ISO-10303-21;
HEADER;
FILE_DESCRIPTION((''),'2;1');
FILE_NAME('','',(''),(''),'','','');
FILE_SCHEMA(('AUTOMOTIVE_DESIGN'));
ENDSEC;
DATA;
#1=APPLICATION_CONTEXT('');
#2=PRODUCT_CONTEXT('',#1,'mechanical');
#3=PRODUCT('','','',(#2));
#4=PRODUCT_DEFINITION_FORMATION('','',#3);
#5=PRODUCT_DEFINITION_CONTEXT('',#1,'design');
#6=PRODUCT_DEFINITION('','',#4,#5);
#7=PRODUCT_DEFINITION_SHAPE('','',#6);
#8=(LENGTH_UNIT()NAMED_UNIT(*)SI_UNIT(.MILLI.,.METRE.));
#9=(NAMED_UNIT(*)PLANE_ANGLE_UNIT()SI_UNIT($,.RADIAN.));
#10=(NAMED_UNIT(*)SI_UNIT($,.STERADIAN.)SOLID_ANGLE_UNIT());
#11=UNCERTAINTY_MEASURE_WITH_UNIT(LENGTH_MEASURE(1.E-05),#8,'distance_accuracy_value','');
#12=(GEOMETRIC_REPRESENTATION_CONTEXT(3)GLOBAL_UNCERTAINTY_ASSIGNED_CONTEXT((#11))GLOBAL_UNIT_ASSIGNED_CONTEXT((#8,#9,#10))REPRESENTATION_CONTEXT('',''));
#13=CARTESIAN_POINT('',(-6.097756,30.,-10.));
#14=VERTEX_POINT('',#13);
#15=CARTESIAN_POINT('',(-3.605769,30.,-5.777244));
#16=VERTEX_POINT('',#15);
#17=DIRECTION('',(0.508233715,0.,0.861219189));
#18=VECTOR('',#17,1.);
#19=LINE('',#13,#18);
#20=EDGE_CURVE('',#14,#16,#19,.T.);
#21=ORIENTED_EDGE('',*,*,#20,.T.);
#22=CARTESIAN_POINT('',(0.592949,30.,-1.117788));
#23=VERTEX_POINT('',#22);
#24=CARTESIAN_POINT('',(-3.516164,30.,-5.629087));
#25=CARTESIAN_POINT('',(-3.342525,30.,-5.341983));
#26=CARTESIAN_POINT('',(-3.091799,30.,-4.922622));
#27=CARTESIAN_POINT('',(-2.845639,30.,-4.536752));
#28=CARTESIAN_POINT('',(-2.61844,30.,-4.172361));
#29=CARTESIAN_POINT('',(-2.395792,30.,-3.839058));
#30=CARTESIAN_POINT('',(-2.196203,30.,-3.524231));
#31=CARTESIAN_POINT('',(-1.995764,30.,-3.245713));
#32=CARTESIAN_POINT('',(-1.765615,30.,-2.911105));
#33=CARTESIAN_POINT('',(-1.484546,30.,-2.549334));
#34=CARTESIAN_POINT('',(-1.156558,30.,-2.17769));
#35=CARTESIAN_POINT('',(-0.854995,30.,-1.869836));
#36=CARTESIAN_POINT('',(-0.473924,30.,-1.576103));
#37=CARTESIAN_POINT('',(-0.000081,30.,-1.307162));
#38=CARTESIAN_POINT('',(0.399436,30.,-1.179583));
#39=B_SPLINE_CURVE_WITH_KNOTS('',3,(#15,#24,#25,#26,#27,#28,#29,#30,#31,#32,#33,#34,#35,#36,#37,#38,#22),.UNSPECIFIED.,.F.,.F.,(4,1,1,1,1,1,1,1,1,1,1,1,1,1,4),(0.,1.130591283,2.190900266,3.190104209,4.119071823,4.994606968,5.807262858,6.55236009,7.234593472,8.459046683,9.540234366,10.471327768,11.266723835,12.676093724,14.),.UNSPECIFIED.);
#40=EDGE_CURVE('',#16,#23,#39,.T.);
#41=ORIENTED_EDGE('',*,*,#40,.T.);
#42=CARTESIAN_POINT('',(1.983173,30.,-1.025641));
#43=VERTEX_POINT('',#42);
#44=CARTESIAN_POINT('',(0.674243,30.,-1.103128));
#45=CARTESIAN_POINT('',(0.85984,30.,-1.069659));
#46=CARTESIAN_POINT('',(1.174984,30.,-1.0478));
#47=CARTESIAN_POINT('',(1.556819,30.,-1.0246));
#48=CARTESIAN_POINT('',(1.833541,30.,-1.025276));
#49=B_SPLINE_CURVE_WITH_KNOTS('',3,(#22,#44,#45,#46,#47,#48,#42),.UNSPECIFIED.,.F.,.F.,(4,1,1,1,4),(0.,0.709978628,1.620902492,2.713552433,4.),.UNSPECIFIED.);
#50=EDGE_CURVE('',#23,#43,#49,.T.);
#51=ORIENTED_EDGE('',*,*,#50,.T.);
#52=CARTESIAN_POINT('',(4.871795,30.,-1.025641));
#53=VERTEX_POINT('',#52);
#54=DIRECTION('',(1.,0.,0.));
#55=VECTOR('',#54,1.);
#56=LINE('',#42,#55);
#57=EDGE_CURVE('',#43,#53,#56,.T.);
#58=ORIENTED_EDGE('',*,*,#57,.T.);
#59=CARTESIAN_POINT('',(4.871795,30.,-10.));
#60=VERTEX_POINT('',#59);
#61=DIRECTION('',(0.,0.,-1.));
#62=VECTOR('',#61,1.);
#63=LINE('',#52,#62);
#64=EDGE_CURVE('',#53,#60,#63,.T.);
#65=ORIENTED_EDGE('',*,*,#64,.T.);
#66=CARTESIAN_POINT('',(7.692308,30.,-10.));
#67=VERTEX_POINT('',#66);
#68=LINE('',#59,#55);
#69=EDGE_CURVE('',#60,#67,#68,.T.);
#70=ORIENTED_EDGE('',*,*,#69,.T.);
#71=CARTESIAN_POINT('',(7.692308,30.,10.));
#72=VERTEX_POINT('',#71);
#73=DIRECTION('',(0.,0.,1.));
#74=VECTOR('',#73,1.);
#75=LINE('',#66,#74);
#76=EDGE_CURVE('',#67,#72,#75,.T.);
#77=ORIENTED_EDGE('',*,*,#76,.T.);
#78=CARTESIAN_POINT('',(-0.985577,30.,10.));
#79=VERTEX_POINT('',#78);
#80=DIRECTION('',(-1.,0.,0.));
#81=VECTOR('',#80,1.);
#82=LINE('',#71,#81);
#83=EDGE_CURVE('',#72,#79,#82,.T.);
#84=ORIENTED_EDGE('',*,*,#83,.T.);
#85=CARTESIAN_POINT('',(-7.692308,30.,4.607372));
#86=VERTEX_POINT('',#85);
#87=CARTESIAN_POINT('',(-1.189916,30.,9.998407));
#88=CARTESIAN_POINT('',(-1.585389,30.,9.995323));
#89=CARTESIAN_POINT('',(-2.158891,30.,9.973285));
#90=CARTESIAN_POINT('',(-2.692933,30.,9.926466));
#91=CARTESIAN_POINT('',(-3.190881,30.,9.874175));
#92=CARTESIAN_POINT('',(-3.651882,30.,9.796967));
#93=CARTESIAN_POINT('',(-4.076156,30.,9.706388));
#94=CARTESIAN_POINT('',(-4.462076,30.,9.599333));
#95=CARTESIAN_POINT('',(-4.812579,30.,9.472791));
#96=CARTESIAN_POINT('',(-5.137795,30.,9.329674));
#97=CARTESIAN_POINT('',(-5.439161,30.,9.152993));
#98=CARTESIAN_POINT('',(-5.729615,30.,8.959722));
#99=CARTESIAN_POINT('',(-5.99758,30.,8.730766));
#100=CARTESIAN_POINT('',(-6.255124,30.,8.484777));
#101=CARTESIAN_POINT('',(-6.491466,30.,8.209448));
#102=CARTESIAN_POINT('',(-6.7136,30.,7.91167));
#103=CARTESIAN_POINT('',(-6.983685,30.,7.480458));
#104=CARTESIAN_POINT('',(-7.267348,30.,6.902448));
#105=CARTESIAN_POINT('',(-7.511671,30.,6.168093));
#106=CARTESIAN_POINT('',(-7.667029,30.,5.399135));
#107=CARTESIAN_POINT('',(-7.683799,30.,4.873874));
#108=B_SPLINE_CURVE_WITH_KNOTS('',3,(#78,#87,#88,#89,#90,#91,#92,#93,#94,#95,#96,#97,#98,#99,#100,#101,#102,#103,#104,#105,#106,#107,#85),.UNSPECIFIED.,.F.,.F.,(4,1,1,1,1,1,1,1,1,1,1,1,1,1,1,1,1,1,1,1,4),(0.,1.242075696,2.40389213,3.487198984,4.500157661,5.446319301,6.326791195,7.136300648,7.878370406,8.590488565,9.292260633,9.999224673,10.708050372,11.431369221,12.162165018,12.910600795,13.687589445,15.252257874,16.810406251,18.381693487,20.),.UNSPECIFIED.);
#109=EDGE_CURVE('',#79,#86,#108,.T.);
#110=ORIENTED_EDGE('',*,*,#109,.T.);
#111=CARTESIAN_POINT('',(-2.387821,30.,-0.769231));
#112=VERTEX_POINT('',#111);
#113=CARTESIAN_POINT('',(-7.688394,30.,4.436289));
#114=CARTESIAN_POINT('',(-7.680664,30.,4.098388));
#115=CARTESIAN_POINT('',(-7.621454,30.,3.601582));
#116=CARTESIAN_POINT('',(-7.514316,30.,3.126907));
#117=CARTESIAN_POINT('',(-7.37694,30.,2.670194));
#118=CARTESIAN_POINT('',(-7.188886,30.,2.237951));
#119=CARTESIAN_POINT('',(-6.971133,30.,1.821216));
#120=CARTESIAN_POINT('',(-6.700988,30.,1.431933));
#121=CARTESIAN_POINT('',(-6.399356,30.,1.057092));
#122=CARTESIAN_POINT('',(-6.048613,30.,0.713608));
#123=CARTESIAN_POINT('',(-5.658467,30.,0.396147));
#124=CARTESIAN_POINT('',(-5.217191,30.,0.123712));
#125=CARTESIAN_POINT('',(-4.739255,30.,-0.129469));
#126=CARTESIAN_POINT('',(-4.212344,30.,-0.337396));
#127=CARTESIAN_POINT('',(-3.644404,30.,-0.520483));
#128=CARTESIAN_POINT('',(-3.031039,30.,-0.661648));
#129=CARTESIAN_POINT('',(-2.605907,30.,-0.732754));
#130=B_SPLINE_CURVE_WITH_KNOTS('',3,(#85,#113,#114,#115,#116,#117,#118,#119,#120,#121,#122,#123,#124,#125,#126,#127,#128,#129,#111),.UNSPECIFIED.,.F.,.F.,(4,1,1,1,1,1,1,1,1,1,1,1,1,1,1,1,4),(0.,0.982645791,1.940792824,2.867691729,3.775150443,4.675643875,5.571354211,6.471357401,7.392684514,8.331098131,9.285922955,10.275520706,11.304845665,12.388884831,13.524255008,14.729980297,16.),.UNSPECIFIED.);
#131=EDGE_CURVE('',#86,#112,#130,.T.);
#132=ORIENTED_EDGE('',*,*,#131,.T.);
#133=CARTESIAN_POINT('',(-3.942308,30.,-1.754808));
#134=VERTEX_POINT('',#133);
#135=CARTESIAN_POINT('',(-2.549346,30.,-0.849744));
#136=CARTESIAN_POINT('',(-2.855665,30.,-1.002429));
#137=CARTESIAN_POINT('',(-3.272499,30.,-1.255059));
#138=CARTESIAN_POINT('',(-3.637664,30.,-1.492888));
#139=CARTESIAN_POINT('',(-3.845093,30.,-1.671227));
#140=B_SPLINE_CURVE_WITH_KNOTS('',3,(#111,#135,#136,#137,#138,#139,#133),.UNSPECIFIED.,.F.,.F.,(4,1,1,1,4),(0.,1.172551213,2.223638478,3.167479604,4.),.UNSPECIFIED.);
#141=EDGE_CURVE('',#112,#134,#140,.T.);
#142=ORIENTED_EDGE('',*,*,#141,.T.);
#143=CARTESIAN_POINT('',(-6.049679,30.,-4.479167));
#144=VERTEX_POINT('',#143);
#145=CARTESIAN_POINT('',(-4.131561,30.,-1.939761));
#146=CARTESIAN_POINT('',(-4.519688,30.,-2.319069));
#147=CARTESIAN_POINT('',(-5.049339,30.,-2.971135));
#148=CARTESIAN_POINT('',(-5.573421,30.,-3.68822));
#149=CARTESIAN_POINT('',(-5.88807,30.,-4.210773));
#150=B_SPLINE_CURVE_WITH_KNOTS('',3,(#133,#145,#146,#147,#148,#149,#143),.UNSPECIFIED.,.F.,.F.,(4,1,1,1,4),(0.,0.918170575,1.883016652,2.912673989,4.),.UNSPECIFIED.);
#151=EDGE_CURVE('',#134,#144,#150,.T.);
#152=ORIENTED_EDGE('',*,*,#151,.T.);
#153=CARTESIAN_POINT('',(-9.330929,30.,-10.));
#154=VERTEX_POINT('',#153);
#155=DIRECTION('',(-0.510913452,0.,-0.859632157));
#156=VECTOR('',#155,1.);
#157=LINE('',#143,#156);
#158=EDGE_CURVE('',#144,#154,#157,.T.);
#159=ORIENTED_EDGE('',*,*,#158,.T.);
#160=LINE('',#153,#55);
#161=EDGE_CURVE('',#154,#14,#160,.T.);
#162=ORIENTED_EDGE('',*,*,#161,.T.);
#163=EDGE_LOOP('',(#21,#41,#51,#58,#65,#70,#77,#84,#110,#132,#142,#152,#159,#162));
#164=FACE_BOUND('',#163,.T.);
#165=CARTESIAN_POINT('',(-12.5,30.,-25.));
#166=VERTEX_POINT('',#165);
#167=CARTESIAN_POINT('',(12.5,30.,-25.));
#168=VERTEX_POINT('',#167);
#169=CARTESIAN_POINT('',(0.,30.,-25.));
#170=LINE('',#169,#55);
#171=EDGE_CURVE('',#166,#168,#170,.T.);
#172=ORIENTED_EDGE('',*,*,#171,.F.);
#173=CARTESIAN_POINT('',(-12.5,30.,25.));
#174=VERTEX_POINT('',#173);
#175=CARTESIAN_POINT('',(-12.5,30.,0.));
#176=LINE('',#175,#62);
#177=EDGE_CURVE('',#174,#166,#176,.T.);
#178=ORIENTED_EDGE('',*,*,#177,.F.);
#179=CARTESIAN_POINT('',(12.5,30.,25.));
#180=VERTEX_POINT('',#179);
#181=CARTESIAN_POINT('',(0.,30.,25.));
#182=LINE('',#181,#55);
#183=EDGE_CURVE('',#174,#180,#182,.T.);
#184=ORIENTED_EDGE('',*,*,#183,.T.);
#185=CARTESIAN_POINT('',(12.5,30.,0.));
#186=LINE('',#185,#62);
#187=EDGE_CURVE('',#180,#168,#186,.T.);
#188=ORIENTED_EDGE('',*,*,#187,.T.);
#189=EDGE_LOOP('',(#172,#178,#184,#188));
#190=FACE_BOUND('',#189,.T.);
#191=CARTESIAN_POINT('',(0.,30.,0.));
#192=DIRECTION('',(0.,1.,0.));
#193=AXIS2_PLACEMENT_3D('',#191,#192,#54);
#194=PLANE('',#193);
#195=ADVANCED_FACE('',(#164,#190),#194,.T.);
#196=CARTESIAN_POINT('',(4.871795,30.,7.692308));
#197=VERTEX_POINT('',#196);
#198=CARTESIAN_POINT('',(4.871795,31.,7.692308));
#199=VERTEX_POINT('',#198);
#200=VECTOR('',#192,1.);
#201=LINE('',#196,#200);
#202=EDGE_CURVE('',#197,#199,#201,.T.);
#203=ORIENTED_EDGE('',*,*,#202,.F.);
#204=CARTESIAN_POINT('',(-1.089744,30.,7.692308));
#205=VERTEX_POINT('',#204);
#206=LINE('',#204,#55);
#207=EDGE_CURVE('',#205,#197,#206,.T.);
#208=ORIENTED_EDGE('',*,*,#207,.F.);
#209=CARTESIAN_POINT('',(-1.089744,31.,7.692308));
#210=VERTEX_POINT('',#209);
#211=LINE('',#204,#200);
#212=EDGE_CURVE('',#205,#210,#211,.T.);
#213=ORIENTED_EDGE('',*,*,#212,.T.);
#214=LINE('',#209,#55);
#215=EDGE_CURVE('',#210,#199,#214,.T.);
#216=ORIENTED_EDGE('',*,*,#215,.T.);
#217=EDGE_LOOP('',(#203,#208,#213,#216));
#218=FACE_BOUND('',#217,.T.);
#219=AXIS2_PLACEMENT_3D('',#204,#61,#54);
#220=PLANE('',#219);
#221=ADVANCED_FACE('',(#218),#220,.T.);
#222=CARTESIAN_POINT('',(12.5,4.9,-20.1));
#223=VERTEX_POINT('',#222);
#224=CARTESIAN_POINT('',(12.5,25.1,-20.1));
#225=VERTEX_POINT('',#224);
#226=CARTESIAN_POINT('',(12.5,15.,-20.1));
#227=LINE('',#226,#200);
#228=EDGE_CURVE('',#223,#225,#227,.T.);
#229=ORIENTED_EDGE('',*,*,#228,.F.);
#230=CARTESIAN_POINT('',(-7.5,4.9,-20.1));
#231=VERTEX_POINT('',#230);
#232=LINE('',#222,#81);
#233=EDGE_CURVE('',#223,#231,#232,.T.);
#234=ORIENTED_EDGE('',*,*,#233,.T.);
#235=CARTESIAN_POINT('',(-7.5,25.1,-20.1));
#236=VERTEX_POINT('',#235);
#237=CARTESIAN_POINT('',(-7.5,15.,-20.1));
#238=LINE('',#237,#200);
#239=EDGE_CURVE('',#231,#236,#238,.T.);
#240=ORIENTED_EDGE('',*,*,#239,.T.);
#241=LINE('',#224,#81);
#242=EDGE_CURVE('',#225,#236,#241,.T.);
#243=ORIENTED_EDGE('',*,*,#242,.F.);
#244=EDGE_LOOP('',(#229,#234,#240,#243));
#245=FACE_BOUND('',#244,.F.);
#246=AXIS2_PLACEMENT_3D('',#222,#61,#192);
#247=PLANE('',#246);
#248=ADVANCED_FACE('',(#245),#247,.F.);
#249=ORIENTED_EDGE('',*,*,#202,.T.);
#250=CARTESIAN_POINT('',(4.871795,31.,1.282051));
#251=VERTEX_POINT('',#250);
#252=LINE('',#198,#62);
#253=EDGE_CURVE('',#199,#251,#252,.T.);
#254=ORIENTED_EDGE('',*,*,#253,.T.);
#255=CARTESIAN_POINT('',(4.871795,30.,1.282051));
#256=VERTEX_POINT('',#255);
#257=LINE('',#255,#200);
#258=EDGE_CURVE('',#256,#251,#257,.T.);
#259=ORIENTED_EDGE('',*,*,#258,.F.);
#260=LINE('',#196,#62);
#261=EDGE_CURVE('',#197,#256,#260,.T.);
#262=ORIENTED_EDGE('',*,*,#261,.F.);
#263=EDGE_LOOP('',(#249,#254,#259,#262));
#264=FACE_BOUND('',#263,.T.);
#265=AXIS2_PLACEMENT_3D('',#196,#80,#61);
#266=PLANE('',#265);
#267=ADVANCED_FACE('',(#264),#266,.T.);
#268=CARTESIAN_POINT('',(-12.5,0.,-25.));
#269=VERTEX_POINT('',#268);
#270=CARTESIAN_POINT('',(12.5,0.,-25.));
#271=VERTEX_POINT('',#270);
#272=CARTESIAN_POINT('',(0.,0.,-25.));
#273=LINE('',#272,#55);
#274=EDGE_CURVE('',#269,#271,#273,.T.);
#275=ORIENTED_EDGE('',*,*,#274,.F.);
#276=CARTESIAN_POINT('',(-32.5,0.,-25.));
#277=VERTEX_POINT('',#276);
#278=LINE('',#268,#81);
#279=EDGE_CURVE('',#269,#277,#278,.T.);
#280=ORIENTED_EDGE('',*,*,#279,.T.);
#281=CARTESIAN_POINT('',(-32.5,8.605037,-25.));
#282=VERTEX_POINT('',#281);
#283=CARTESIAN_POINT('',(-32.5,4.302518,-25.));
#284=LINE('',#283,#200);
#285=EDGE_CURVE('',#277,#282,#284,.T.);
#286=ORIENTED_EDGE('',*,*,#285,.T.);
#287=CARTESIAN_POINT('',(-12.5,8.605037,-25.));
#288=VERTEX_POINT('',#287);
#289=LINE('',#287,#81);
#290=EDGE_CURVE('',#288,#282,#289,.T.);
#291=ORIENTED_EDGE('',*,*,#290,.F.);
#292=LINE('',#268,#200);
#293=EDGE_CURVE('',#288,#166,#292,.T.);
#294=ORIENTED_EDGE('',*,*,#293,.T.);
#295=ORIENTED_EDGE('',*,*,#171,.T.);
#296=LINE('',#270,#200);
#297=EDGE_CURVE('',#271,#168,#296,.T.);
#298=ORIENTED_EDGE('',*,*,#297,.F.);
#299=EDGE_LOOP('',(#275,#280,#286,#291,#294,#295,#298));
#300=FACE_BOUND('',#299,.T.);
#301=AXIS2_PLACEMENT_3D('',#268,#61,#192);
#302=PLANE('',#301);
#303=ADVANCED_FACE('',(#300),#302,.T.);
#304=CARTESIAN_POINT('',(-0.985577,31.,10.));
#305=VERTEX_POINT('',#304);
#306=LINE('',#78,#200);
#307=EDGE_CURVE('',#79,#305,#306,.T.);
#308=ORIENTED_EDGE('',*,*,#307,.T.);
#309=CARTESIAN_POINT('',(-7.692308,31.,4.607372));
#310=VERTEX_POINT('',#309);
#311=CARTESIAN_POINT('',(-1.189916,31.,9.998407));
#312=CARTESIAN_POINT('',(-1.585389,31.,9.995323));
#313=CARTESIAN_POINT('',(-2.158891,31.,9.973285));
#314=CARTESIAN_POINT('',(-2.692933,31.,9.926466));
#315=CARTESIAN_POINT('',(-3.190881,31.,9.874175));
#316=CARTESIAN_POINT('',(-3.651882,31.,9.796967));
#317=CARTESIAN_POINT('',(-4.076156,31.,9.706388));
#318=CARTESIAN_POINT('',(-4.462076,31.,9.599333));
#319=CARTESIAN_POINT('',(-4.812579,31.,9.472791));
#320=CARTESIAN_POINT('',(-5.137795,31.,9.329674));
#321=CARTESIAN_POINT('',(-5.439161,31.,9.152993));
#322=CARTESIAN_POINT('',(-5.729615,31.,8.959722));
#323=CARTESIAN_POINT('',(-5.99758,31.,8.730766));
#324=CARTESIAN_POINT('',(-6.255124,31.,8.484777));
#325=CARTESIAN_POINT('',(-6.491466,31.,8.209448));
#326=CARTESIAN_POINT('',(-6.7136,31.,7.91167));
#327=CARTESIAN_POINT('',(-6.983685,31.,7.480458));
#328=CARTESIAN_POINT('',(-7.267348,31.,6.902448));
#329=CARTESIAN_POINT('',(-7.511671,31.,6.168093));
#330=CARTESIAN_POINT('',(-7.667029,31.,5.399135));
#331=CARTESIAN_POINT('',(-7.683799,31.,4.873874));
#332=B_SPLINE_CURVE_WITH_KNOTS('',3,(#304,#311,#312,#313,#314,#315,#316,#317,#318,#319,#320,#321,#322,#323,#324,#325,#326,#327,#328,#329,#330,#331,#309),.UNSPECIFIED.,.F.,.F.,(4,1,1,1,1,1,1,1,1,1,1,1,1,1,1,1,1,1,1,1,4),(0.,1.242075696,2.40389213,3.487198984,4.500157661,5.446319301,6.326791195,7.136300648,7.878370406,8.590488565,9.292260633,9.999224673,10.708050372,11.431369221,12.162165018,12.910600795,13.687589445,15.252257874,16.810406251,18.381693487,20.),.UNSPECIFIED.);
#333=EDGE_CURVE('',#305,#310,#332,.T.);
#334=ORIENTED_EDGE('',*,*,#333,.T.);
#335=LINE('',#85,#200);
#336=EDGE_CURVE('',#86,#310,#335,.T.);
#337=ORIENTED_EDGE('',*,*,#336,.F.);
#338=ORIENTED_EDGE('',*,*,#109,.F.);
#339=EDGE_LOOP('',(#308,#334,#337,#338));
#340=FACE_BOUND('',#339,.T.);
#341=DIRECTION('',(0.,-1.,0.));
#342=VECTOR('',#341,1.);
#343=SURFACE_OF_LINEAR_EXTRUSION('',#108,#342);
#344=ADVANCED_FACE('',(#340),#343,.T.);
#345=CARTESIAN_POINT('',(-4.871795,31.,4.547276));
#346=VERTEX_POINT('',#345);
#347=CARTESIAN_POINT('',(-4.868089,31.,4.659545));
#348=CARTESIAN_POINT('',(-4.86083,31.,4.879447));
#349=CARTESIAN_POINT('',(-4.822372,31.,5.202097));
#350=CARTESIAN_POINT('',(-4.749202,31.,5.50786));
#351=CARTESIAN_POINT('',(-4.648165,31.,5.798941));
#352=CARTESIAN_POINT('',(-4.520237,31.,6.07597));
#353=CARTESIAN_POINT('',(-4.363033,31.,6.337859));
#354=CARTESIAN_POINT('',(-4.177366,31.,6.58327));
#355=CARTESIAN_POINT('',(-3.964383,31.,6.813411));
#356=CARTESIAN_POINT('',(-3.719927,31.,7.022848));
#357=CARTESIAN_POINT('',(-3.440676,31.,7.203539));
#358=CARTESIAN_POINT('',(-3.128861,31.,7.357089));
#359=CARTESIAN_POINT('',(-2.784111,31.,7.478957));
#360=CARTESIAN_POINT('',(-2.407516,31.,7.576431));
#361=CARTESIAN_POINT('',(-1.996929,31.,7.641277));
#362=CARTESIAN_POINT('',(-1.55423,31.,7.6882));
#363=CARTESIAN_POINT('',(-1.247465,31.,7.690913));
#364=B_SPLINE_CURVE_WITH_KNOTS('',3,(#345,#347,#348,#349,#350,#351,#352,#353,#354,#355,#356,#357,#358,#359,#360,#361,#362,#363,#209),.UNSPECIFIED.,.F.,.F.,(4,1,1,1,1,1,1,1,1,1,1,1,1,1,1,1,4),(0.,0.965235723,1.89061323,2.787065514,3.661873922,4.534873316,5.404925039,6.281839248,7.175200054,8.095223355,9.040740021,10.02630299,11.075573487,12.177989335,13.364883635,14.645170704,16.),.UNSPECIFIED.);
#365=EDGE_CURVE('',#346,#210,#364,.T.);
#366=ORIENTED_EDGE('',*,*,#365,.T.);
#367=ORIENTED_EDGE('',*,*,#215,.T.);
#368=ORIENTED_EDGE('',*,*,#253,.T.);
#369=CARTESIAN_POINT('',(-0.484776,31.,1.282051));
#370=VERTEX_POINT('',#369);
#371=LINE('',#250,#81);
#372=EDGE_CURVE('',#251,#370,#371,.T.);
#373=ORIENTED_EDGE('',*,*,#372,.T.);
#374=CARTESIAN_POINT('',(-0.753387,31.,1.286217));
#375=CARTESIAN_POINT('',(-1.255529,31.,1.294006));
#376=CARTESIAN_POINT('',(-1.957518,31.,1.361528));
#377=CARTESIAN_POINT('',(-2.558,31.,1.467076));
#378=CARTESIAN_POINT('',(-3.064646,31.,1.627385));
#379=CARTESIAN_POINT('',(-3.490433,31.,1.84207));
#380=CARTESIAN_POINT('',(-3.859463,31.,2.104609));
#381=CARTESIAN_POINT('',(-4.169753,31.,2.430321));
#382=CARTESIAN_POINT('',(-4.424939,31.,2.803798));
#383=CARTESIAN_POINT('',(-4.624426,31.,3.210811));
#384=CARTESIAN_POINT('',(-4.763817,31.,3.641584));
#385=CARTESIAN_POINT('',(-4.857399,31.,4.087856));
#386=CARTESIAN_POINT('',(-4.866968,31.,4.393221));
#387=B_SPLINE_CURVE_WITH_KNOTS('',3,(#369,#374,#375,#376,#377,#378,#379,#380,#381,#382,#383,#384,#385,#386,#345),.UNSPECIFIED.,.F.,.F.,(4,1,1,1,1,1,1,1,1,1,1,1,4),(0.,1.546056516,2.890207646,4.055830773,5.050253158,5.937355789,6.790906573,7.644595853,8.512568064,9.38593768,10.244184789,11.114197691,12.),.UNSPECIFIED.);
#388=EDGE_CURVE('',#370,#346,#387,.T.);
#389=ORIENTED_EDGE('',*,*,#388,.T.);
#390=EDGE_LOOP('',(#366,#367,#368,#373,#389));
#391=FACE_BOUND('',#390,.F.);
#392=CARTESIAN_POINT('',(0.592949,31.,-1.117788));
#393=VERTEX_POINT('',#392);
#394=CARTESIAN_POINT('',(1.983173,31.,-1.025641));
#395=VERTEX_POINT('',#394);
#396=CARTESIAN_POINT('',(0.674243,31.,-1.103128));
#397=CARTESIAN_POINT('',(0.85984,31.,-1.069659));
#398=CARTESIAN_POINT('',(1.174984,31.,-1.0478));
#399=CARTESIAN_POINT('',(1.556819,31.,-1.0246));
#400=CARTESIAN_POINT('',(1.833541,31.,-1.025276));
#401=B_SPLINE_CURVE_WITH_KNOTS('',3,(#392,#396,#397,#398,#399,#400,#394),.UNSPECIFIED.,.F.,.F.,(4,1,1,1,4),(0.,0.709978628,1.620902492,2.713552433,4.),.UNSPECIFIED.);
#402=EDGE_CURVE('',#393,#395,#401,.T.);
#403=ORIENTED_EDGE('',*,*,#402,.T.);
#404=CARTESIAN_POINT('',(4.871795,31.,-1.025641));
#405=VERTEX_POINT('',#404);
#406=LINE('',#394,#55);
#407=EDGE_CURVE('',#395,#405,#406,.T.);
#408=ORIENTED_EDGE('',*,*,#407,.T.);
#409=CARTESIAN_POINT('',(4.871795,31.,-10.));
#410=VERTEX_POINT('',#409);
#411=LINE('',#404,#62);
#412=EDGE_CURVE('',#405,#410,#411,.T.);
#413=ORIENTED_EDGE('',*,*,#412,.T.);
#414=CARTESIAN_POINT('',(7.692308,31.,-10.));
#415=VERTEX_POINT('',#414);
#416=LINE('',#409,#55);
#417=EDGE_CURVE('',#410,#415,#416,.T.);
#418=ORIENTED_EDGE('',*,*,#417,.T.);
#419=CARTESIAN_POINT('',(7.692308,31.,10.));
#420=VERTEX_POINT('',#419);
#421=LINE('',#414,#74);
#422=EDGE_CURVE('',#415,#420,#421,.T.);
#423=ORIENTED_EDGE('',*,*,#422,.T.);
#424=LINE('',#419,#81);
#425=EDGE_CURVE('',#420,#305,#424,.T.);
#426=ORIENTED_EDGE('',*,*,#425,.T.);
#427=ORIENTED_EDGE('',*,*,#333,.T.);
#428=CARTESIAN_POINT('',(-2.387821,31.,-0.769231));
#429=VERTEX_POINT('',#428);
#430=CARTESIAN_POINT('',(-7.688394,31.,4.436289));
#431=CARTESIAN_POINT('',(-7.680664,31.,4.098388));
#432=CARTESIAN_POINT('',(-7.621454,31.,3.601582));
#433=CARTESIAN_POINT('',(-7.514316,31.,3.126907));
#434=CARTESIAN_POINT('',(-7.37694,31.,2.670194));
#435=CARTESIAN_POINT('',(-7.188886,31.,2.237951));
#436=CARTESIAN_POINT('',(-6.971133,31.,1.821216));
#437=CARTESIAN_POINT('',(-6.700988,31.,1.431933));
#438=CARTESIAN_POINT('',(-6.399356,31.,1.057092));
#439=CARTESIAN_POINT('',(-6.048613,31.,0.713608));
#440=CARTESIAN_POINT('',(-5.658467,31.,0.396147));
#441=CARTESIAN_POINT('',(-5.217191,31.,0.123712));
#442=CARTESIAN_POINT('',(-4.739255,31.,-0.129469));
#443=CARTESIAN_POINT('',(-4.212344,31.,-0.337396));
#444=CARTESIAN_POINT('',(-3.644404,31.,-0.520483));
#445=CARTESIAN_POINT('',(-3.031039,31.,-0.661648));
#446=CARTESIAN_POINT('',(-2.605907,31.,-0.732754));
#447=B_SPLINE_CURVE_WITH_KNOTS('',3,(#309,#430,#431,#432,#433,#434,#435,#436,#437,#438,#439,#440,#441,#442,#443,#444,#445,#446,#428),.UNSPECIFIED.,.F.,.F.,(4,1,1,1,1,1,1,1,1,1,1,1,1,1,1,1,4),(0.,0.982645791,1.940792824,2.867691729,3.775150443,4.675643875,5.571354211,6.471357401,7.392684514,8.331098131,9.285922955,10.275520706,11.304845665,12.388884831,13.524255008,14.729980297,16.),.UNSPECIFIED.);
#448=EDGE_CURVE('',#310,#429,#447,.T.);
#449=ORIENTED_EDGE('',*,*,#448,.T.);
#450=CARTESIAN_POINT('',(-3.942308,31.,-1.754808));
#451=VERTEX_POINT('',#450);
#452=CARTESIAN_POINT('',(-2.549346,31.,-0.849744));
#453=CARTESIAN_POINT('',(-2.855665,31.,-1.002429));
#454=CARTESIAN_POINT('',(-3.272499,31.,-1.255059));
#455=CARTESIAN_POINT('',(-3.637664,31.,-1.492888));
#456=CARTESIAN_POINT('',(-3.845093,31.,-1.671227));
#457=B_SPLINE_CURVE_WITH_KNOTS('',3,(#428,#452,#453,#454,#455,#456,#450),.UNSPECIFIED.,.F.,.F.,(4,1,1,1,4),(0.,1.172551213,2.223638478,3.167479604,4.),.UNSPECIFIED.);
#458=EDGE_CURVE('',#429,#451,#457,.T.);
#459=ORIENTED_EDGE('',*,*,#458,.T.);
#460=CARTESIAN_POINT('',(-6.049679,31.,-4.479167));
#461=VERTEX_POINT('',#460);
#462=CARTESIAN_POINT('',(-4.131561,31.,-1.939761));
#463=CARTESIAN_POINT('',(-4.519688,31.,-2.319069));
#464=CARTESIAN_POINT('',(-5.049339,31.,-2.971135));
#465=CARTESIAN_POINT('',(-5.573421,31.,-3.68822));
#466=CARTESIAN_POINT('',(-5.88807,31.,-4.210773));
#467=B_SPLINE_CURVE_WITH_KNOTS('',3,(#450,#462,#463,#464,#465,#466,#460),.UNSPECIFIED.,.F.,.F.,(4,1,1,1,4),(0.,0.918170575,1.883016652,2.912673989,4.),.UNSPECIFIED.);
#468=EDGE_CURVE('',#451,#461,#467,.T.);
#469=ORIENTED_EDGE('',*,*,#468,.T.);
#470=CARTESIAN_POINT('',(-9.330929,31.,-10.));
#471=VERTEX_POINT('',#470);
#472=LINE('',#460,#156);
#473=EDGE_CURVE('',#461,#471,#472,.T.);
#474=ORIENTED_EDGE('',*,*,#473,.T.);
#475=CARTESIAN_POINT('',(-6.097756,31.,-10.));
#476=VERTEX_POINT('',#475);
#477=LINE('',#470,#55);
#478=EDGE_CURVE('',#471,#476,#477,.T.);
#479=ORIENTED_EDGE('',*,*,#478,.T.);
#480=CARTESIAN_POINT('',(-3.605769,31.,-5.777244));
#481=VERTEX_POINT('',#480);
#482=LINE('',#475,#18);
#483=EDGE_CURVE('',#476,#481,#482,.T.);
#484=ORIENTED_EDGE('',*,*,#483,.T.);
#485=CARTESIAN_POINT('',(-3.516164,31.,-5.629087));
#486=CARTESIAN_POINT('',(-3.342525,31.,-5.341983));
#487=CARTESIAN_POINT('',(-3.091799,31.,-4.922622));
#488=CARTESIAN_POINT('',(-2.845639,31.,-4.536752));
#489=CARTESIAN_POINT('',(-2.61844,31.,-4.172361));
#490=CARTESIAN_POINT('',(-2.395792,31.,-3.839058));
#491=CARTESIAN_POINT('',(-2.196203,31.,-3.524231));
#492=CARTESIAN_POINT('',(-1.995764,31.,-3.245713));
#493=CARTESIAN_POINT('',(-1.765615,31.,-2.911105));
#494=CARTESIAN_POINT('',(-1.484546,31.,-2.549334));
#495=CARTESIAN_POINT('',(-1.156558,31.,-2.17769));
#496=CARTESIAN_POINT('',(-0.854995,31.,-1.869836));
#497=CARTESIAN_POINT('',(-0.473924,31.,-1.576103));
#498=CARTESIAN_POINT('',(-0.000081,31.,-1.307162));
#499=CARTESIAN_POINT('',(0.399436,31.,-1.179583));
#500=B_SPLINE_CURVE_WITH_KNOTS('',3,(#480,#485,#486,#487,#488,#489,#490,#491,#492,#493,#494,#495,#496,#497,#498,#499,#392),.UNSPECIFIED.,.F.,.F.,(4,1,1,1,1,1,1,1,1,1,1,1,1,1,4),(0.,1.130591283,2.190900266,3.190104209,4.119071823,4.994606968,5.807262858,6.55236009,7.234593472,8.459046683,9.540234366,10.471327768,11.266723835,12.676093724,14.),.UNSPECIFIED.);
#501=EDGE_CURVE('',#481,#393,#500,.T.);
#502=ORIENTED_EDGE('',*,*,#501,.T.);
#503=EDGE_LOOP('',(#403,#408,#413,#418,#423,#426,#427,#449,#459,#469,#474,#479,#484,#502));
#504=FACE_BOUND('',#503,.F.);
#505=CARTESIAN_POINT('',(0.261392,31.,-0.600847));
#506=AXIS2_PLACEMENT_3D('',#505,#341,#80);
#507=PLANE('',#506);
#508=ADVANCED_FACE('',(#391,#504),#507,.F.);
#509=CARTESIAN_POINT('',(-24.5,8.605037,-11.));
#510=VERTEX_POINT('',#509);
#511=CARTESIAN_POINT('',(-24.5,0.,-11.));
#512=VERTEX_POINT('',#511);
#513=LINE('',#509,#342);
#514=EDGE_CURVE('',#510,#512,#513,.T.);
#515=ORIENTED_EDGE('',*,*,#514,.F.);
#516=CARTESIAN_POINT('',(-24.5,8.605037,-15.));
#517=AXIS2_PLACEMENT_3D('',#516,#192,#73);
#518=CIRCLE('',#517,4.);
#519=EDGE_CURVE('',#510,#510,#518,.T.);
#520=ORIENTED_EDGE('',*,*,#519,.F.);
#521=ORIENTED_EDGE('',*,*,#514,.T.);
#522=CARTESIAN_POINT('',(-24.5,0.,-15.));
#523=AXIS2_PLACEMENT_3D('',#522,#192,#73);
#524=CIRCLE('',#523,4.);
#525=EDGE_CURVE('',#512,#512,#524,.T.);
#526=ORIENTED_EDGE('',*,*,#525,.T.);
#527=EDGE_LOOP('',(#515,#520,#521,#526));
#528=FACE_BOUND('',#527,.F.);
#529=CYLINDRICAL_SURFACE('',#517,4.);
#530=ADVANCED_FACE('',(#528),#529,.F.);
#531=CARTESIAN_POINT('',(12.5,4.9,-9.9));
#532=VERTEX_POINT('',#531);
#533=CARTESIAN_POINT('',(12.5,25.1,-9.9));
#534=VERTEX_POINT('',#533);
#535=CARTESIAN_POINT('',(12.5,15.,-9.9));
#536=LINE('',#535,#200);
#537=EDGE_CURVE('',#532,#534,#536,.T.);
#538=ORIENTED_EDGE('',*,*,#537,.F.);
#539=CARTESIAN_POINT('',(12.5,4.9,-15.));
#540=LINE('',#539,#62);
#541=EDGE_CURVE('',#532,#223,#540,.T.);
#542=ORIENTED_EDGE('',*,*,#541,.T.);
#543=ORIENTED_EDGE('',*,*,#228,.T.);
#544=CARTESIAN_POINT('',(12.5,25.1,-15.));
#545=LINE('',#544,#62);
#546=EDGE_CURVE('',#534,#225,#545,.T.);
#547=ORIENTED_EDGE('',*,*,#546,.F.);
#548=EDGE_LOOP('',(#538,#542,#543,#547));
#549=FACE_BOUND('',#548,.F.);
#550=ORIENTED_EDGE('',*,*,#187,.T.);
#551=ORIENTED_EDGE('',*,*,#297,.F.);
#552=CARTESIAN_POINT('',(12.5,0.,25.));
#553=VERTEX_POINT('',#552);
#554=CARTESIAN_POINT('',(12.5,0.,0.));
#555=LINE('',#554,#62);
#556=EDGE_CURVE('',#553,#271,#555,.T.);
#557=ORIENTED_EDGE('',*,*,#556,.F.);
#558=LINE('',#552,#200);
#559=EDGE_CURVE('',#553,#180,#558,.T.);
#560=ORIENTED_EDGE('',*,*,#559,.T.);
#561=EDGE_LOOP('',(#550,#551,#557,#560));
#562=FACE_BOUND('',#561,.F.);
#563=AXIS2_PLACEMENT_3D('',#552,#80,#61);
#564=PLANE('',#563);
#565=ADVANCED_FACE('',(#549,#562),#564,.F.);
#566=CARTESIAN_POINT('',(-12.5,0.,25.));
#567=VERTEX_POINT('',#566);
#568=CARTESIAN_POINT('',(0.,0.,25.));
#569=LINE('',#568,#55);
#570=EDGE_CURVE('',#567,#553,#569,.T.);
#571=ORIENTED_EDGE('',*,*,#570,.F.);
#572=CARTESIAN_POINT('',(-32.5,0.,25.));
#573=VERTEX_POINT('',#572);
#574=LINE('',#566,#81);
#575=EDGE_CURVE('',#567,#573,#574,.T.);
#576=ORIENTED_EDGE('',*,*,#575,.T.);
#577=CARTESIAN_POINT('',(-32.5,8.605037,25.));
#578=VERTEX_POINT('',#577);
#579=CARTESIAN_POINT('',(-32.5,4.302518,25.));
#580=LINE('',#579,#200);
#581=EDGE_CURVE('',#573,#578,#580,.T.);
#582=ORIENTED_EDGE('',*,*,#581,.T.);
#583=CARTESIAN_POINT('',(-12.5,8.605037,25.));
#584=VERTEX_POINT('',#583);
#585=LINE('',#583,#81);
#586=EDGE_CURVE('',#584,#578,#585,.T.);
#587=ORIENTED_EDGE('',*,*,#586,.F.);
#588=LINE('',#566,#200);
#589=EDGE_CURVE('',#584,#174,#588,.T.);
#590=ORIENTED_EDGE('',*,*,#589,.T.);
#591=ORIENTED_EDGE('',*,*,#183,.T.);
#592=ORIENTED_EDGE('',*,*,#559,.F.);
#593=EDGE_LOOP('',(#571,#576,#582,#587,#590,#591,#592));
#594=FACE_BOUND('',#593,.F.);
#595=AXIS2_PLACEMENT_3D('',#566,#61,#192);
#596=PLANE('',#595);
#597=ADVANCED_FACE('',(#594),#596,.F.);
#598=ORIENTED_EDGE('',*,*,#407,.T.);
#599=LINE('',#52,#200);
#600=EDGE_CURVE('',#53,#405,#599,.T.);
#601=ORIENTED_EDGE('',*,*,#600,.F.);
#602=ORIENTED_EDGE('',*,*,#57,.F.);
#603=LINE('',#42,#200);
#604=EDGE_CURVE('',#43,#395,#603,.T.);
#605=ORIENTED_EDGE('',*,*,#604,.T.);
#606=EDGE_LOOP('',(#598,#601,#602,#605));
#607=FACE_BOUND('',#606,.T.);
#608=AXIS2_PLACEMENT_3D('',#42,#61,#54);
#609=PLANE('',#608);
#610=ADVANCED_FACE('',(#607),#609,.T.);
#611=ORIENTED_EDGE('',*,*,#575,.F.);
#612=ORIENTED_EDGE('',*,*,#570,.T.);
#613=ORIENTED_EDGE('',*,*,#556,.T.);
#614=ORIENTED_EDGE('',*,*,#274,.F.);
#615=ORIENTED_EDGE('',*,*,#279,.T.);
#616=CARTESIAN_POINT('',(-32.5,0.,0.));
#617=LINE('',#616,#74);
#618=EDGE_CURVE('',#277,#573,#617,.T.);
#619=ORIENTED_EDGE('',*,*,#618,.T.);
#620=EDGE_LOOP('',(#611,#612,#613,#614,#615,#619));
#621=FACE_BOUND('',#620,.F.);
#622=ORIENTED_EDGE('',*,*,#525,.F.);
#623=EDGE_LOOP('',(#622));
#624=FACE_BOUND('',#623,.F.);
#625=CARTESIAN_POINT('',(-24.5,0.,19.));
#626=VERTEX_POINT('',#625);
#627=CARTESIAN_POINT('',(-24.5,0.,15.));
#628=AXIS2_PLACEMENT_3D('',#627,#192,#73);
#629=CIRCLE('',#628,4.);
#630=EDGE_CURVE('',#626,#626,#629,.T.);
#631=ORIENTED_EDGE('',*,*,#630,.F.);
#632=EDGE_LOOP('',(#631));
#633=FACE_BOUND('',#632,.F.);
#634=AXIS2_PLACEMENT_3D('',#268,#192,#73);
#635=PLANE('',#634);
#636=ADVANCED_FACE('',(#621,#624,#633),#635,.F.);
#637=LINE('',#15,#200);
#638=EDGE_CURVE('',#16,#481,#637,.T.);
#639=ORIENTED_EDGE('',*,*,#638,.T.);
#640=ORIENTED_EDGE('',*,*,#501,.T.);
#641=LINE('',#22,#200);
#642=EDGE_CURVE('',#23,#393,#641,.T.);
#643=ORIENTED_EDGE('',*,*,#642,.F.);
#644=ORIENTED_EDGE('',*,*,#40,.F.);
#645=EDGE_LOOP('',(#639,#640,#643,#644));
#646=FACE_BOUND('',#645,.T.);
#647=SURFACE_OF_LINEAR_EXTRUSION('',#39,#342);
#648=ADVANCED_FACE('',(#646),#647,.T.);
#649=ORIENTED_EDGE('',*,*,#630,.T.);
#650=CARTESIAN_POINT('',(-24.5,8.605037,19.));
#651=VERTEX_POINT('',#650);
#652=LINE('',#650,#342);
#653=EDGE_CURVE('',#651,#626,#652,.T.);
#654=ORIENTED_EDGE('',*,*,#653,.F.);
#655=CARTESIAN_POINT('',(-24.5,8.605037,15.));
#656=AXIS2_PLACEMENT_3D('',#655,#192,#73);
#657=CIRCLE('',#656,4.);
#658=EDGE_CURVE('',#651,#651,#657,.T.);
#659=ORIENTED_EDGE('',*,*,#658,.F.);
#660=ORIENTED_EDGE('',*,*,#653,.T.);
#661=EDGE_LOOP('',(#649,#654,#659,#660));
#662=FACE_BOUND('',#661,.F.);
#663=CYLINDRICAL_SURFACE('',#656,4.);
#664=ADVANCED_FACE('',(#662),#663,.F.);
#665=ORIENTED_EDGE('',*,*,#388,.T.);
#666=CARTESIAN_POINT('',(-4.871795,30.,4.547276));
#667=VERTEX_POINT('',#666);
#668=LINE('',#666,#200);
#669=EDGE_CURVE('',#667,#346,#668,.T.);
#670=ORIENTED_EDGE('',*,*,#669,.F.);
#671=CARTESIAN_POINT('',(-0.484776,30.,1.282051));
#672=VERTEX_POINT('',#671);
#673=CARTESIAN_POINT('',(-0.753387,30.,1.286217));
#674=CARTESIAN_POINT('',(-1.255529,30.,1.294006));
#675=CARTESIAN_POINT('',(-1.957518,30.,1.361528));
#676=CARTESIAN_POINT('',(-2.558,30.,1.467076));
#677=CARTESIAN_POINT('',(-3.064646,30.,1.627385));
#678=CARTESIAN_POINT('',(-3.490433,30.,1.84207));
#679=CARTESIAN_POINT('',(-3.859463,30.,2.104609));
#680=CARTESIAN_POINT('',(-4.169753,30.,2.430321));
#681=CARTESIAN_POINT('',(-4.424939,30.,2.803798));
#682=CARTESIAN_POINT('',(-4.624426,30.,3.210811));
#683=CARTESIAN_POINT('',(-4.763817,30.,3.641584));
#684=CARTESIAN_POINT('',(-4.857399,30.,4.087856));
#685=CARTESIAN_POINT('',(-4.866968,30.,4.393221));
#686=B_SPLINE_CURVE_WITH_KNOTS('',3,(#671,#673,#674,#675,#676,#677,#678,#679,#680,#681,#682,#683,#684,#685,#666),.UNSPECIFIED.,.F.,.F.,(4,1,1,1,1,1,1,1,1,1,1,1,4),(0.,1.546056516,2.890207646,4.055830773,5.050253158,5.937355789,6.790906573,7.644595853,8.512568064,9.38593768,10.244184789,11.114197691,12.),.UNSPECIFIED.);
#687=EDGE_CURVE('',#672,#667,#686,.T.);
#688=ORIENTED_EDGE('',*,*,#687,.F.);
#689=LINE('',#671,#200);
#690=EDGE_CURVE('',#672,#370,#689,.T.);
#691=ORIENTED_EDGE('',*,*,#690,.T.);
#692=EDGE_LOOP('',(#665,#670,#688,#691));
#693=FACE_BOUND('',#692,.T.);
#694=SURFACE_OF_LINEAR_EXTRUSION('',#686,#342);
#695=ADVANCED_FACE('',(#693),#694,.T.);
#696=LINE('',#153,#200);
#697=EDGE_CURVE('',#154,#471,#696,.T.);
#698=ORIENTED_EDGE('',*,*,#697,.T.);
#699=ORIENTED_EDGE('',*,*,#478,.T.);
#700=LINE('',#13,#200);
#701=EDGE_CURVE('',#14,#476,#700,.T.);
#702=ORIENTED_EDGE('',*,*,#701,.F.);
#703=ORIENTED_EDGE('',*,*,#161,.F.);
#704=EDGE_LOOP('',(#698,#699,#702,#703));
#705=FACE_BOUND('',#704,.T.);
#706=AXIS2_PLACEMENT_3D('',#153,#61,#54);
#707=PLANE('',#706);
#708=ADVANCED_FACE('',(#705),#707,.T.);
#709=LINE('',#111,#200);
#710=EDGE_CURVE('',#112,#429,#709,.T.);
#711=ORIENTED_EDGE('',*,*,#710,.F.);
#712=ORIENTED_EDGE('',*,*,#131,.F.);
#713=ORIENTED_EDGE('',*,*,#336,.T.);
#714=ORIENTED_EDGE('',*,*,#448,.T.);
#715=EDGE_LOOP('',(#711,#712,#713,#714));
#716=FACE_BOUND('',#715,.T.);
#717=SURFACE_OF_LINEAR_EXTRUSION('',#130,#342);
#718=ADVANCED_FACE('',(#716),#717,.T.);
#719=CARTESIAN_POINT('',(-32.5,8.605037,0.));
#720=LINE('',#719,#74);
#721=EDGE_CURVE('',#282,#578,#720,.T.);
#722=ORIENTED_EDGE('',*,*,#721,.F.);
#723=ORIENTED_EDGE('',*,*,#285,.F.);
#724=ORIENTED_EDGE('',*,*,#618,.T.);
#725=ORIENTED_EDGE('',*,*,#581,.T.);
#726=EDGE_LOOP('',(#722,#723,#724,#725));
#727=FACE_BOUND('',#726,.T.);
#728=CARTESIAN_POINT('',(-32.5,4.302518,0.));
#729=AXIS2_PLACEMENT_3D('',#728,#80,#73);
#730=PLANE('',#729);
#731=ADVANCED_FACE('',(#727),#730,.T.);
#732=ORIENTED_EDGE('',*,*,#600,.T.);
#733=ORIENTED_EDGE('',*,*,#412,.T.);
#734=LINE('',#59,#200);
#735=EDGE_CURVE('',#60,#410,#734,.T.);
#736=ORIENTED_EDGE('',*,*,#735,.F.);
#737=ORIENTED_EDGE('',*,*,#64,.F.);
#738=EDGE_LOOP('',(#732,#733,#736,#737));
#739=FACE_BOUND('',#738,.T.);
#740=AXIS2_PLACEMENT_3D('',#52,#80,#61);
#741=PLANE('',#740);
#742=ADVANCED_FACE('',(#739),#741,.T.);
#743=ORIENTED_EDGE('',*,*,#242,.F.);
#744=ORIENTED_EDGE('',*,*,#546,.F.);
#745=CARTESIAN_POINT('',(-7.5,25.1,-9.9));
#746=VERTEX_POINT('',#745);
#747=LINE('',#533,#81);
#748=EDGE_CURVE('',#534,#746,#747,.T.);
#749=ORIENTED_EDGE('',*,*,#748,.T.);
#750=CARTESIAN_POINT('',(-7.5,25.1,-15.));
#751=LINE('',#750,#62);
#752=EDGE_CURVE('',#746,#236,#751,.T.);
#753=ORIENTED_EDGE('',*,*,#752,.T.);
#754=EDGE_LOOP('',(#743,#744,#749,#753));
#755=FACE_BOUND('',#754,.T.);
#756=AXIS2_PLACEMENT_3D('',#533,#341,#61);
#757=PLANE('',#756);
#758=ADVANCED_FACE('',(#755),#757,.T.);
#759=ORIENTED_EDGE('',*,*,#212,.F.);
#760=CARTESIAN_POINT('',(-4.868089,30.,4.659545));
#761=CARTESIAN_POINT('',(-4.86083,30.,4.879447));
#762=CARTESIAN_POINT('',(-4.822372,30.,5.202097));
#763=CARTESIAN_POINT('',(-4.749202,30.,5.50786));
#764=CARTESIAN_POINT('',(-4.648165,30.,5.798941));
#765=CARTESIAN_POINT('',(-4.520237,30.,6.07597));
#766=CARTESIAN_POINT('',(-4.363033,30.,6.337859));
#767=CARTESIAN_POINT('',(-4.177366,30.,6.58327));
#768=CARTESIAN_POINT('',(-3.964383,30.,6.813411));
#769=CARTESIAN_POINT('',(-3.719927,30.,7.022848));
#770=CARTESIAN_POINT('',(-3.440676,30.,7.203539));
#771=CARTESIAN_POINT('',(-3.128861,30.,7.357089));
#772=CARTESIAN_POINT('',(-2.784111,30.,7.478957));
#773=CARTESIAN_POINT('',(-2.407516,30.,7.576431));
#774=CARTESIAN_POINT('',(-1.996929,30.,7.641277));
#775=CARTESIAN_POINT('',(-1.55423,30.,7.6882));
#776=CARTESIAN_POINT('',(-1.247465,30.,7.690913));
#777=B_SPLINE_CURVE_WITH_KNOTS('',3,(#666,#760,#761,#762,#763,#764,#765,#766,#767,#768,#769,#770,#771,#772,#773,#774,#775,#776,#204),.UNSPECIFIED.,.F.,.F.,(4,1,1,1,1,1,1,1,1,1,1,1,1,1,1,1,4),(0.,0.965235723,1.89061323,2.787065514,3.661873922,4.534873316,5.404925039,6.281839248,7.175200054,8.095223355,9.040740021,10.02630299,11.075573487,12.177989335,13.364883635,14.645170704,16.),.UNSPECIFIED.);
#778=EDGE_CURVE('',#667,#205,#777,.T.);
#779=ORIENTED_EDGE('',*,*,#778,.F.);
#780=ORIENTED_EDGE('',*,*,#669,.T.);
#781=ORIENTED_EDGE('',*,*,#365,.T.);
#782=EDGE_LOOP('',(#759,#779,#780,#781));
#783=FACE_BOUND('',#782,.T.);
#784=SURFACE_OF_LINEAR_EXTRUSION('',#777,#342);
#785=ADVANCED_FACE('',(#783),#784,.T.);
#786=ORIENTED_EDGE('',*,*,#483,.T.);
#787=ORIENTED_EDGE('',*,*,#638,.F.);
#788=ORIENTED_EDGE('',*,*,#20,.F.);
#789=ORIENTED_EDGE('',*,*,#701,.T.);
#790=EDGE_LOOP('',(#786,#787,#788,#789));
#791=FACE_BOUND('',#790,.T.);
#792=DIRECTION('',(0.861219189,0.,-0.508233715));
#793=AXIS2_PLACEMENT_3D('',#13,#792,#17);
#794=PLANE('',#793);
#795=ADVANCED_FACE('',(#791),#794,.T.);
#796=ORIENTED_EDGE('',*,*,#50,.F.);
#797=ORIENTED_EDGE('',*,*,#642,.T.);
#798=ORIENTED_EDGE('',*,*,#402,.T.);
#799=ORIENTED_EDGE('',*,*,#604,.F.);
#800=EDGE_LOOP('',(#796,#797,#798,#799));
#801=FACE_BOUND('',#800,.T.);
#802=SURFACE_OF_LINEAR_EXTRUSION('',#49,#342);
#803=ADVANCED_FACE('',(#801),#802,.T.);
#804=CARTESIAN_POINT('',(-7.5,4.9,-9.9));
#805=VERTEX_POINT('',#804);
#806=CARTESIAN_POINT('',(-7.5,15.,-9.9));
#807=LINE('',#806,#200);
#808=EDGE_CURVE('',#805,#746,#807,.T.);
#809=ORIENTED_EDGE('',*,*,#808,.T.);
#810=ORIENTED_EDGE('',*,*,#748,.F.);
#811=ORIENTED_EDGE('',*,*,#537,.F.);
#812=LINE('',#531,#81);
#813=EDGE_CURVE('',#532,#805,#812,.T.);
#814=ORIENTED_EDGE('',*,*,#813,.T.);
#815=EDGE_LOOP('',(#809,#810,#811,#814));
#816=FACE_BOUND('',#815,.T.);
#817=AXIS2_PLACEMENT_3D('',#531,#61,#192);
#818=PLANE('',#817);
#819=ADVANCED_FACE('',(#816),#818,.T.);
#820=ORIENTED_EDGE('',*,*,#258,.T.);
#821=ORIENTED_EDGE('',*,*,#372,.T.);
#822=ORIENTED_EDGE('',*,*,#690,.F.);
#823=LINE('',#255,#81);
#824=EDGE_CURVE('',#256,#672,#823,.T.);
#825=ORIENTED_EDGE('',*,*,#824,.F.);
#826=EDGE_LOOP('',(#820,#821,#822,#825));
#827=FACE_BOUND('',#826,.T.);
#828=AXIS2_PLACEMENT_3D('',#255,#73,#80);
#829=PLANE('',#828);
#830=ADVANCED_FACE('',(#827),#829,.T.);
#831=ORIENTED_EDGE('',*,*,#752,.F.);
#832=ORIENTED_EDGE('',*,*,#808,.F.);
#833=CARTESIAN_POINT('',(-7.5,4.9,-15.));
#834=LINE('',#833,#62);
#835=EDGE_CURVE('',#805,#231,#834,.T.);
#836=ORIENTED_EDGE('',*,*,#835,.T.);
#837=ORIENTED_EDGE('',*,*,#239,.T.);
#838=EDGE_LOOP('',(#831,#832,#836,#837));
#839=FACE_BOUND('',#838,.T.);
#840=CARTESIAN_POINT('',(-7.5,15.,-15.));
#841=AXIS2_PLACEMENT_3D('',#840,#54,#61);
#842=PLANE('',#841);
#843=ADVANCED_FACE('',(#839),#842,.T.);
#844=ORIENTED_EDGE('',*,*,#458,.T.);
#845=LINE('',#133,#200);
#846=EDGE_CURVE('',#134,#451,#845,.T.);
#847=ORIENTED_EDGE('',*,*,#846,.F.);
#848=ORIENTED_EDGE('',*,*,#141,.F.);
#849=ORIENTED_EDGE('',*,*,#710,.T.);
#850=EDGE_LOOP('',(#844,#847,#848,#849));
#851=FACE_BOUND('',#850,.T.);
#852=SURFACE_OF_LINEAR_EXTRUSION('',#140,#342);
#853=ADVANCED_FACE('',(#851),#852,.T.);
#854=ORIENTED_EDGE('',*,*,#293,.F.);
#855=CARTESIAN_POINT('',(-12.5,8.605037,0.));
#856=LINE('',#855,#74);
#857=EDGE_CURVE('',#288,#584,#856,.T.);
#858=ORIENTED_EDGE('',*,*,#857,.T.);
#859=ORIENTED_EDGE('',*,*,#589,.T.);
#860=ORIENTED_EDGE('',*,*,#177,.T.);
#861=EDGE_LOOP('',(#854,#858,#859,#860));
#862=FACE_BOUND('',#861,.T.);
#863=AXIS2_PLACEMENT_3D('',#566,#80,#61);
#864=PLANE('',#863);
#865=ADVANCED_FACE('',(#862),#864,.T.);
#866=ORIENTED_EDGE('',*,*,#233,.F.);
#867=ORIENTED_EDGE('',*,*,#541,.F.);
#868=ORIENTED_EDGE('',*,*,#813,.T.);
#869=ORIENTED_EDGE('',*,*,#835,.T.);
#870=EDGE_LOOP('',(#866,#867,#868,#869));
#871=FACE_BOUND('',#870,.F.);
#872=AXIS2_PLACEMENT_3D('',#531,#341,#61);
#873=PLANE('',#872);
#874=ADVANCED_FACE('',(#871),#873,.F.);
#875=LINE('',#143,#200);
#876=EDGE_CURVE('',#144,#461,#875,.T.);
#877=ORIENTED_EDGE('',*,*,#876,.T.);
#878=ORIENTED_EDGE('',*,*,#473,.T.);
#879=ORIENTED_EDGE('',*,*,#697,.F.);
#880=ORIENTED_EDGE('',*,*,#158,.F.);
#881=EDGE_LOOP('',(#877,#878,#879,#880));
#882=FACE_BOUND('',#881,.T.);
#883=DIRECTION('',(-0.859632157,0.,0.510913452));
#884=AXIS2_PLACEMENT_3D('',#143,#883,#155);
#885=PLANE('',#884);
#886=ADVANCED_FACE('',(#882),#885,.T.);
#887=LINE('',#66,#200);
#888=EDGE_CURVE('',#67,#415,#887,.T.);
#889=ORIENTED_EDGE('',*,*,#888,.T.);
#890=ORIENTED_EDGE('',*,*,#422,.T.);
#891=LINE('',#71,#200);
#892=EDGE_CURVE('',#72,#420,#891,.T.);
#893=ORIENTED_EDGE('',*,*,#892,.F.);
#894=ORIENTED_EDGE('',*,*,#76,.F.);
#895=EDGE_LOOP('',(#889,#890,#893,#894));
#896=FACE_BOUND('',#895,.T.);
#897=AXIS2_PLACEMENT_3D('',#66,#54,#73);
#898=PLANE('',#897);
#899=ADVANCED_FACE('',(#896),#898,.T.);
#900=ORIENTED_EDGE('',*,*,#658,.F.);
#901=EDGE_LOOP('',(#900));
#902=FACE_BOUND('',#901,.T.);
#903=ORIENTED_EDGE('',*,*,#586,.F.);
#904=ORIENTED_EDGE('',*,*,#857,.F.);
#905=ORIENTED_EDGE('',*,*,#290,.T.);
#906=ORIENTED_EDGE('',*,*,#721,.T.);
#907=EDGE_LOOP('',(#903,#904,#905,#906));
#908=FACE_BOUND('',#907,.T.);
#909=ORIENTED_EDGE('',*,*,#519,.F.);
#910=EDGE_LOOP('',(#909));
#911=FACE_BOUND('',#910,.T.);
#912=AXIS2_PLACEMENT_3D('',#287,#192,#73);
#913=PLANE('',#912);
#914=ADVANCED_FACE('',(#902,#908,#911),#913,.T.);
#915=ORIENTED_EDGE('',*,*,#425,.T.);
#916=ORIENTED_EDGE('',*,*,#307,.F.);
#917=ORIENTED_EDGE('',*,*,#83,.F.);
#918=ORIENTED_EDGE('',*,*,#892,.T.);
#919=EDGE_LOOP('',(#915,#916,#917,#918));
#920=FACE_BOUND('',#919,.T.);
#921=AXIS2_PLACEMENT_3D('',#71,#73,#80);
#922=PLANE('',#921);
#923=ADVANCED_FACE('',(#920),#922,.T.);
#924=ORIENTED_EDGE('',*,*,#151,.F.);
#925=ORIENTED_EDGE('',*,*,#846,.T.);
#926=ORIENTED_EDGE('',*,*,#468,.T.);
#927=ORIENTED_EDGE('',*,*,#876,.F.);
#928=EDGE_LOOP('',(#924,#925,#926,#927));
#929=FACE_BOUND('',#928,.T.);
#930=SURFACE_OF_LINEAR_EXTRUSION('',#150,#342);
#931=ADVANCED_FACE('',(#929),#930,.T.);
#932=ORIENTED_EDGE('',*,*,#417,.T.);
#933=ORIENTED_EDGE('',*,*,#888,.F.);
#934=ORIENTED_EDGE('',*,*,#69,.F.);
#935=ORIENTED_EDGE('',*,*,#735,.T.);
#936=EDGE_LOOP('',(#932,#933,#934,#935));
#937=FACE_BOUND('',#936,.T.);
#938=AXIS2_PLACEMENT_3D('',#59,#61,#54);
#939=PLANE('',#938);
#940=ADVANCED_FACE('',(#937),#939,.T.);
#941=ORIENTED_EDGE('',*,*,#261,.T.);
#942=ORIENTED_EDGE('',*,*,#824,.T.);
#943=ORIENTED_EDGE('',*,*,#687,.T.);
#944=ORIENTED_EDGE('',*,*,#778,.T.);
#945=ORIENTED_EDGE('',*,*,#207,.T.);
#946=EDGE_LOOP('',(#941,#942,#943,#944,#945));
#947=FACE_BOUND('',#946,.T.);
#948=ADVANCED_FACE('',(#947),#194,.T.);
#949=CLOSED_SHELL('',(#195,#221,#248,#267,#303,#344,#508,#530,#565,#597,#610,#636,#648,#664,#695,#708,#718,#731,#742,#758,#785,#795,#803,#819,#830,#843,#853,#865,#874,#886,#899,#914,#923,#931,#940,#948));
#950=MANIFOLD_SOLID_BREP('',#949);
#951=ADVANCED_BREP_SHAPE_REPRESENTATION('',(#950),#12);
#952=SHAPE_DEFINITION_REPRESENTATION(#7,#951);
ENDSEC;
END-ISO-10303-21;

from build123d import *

# Parameters (mm, degrees)
SKETCH1_W           = 25
SKETCH1_H           = 50
BOSS_EXTRUDE1_DEPTH = 30
SKETCH2_W           = 50
SKETCH2_H           = 8.605036789
BOSS_EXTRUDE2_DEPTH = 20
SKETCH3_R           = 4
CUT_EXTRUDE1_DEPTH  = 47.249264327
SKETCH4_W           = 10.2
SKETCH4_H           = 20.2
CUT_EXTRUDE2_DEPTH  = 20
BOSS_EXTRUDE3_DEPTH = 1


with BuildPart() as part:
    # Sketch1 → Boss-Extrude1 (new body)
    with BuildSketch(Plane(origin=(0, 0, 0), x_dir=(1, 0, 0), z_dir=(0, 1, 0))):
        Rectangle(SKETCH1_W, SKETCH1_H)
    extrude(amount=BOSS_EXTRUDE1_DEPTH)

    # Sketch2 → Boss-Extrude2 (add)
    with BuildSketch(Plane.ZY.offset(12.5)):
        with Locations((0, 4.302518394)):
            Rectangle(SKETCH2_W, SKETCH2_H)
    extrude(amount=BOSS_EXTRUDE2_DEPTH)

    # Sketch3 → Cut-Extrude1 (cut, through all)
    with BuildSketch(Plane(origin=(0, 8.605036789, 0), x_dir=(1, 0, 0), z_dir=(0, 1, 0))):
        with Locations(Location((-24.5, 15, 0), (0, 0, 270))):
            Circle(SKETCH3_R)
        with Locations(Location((-24.5, -15, 0), (0, 0, 270))):
            Circle(SKETCH3_R)
    extrude(amount=-CUT_EXTRUDE1_DEPTH, mode=Mode.SUBTRACT)

    # Sketch4 → Cut-Extrude2 (cut)
    with BuildSketch(Plane(origin=(12.5, 0, 0), x_dir=(0, 0, -1), z_dir=(1, 0, 0))):
        with Locations((15, 15)):
            Rectangle(SKETCH4_W, SKETCH4_H)
    extrude(amount=-CUT_EXTRUDE2_DEPTH, mode=Mode.SUBTRACT)

    # Sketch5 → Boss-Extrude3 (add)
    with BuildSketch(Plane(origin=(0, 30, 0), x_dir=(1, 0, 0), z_dir=(0, 1, 0))):
        with BuildLine():
            Line((7.692307692, 10), (7.692307692, -10))
            Line((7.692307692, -10), (-0.985576923, -10))
            add(Edge.make_bspline(
                [(-0.985576923, -10), (-1.189915508, -9.998406517), (-1.585388921, -9.995322517), (-2.158891161, -9.97328499), (-2.692933181, -9.926466249), (-3.190880742, -9.87417544), (-3.651881782, -9.796967041), (-4.076156001, -9.706387661), (-4.462076213, -9.599333368), (-4.812578849, -9.472790754), (-5.13779529, -9.329673653), (-5.439160579, -9.1529927), (-5.729614752, -8.959721513), (-5.997579665, -8.730765608), (-6.255124362, -8.484777239), (-6.491466209, -8.20944831), (-6.713599726, -7.911670049), (-6.98368474, -7.480457665), (-7.26734754, -6.902448182), (-7.511671117, -6.168093018), (-7.667028651, -5.399134972), (-7.683798939, -4.873873893), (-7.692307692, -4.607371795)],
                knots=[0, 0, 0, 0, 1.242075696, 2.40389213, 3.487198984, 4.500157661, 5.446319301, 6.326791195, 7.136300648, 7.878370406, 8.590488565, 9.292260633, 9.999224673, 10.708050372, 11.431369221, 12.162165018, 12.910600795, 13.687589445, 15.252257874, 16.810406251, 18.381693487, 20, 20, 20, 20], degree=3))
            add(Edge.make_bspline(
                [(-7.692307692, -4.607371795), (-7.688394011, -4.436288612), (-7.680664221, -4.098387595), (-7.621454116, -3.601582104), (-7.51431592, -3.126906532), (-7.376939813, -2.670193942), (-7.1888858, -2.237951011), (-6.971132957, -1.821215885), (-6.700987613, -1.431932834), (-6.399355855, -1.057091635), (-6.048612719, -0.71360816), (-5.658467411, -0.39614679), (-5.217190586, -0.123711561), (-4.739255324, 0.129469087), (-4.212344466, 0.337396306), (-3.644404331, 0.520482963), (-3.031039376, 0.661647942), (-2.605906991, 0.732754289), (-2.387820513, 0.769230769)],
                knots=[0, 0, 0, 0, 0.982645791, 1.940792824, 2.867691729, 3.775150443, 4.675643875, 5.571354211, 6.471357401, 7.392684514, 8.331098131, 9.285922955, 10.275520706, 11.304845665, 12.388884831, 13.524255008, 14.729980297, 16, 16, 16, 16], degree=3))
            add(Edge.make_bspline(
                [(-2.387820513, 0.769230769), (-2.549345996, 0.849743746), (-2.855664626, 1.002429402), (-3.272498706, 1.255059029), (-3.637663897, 1.492888205), (-3.845092801, 1.671226556), (-3.942307692, 1.754807692)],
                knots=[0, 0, 0, 0, 1.172551213, 2.223638478, 3.167479604, 4, 4, 4, 4], degree=3))
            add(Edge.make_bspline(
                [(-3.942307692, 1.754807692), (-4.131560958, 1.939760877), (-4.519688241, 2.319069404), (-5.049338611, 2.971134565), (-5.573421338, 3.688219618), (-5.888069662, 4.2107727), (-6.049679487, 4.479166667)],
                knots=[0, 0, 0, 0, 0.918170575, 1.883016652, 2.912673989, 4, 4, 4, 4], degree=3))
            Line((-6.049679487, 4.479166667), (-9.330929487, 10))
            Line((-9.330929487, 10), (-6.09775641, 10))
            Line((-6.09775641, 10), (-3.605769231, 5.77724359))
            add(Edge.make_bspline(
                [(-3.605769231, 5.77724359), (-3.516164402, 5.629086783), (-3.342524957, 5.34198322), (-3.091798881, 4.922621923), (-2.845639404, 4.536751784), (-2.618440056, 4.172360633), (-2.395792195, 3.839058208), (-2.196203285, 3.524230537), (-1.99576396, 3.245712753), (-1.765615132, 2.91110533), (-1.484546035, 2.549334189), (-1.156558274, 2.177690005), (-0.854995349, 1.869836465), (-0.473923576, 1.576103263), (-8.0808e-05, 1.307161834), (0.399436219, 1.179583217), (0.592948718, 1.117788462)],
                knots=[0, 0, 0, 0, 1.130591283, 2.190900266, 3.190104209, 4.119071823, 4.994606968, 5.807262858, 6.55236009, 7.234593472, 8.459046683, 9.540234366, 10.471327768, 11.266723835, 12.676093724, 14, 14, 14, 14], degree=3))
            add(Edge.make_bspline(
                [(0.592948718, 1.117788462), (0.674242958, 1.103128347), (0.859840146, 1.069658866), (1.174983707, 1.047799895), (1.556818794, 1.024599522), (1.833541189, 1.025275503), (1.983173077, 1.025641026)],
                knots=[0, 0, 0, 0, 0.709978628, 1.620902492, 2.713552433, 4, 4, 4, 4], degree=3))
            Line((1.983173077, 1.025641026), (4.871794872, 1.025641026))
            Line((4.871794872, 1.025641026), (4.871794872, 10))
            Line((4.871794872, 10), (7.692307692, 10))
        make_face()
        with BuildLine():
            Line((4.871794872, -1.282051282), (-0.484775641, -1.282051282))
            add(Edge.make_bspline(
                [(-0.484775641, -1.282051282), (-0.753386517, -1.286217416), (-1.255529355, -1.294005613), (-1.957518176, -1.361528247), (-2.558000395, -1.467075801), (-3.064646298, -1.627384754), (-3.490432782, -1.842070076), (-3.859462924, -2.104609449), (-4.169752828, -2.430321342), (-4.424939479, -2.80379836), (-4.624425797, -3.210810832), (-4.763816724, -3.641583566), (-4.857398907, -4.087856282), (-4.866967535, -4.393220511), (-4.871794872, -4.547275641)],
                knots=[0, 0, 0, 0, 1.546056516, 2.890207646, 4.055830773, 5.050253158, 5.937355789, 6.790906573, 7.644595853, 8.512568064, 9.38593768, 10.244184789, 11.114197691, 12, 12, 12, 12], degree=3))
            add(Edge.make_bspline(
                [(-4.871794872, -4.547275641), (-4.868088958, -4.659544766), (-4.86083016, -4.879447), (-4.822372143, -5.202097101), (-4.749202425, -5.50786025), (-4.648165007, -5.798940542), (-4.520236894, -6.075969951), (-4.363033481, -6.337858904), (-4.177365929, -6.583269781), (-3.964383478, -6.81341075), (-3.719926868, -7.02284832), (-3.440676061, -7.203538998), (-3.128860999, -7.357089463), (-2.784111469, -7.478956731), (-2.407515729, -7.576430897), (-1.996929252, -7.641277267), (-1.554229928, -7.688199899), (-1.24746496, -7.690912847), (-1.08974359, -7.692307692)],
                knots=[0, 0, 0, 0, 0.965235723, 1.89061323, 2.787065514, 3.661873922, 4.534873316, 5.404925039, 6.281839248, 7.175200054, 8.095223355, 9.040740021, 10.02630299, 11.075573487, 12.177989335, 13.364883635, 14.645170704, 16, 16, 16, 16], degree=3))
            Line((-1.08974359, -7.692307692), (4.871794872, -7.692307692))
            Line((4.871794872, -7.692307692), (4.871794872, -1.282051282))
        make_face(mode=Mode.SUBTRACT)
    extrude(amount=BOSS_EXTRUDE3_DEPTH)


solid = part.part
